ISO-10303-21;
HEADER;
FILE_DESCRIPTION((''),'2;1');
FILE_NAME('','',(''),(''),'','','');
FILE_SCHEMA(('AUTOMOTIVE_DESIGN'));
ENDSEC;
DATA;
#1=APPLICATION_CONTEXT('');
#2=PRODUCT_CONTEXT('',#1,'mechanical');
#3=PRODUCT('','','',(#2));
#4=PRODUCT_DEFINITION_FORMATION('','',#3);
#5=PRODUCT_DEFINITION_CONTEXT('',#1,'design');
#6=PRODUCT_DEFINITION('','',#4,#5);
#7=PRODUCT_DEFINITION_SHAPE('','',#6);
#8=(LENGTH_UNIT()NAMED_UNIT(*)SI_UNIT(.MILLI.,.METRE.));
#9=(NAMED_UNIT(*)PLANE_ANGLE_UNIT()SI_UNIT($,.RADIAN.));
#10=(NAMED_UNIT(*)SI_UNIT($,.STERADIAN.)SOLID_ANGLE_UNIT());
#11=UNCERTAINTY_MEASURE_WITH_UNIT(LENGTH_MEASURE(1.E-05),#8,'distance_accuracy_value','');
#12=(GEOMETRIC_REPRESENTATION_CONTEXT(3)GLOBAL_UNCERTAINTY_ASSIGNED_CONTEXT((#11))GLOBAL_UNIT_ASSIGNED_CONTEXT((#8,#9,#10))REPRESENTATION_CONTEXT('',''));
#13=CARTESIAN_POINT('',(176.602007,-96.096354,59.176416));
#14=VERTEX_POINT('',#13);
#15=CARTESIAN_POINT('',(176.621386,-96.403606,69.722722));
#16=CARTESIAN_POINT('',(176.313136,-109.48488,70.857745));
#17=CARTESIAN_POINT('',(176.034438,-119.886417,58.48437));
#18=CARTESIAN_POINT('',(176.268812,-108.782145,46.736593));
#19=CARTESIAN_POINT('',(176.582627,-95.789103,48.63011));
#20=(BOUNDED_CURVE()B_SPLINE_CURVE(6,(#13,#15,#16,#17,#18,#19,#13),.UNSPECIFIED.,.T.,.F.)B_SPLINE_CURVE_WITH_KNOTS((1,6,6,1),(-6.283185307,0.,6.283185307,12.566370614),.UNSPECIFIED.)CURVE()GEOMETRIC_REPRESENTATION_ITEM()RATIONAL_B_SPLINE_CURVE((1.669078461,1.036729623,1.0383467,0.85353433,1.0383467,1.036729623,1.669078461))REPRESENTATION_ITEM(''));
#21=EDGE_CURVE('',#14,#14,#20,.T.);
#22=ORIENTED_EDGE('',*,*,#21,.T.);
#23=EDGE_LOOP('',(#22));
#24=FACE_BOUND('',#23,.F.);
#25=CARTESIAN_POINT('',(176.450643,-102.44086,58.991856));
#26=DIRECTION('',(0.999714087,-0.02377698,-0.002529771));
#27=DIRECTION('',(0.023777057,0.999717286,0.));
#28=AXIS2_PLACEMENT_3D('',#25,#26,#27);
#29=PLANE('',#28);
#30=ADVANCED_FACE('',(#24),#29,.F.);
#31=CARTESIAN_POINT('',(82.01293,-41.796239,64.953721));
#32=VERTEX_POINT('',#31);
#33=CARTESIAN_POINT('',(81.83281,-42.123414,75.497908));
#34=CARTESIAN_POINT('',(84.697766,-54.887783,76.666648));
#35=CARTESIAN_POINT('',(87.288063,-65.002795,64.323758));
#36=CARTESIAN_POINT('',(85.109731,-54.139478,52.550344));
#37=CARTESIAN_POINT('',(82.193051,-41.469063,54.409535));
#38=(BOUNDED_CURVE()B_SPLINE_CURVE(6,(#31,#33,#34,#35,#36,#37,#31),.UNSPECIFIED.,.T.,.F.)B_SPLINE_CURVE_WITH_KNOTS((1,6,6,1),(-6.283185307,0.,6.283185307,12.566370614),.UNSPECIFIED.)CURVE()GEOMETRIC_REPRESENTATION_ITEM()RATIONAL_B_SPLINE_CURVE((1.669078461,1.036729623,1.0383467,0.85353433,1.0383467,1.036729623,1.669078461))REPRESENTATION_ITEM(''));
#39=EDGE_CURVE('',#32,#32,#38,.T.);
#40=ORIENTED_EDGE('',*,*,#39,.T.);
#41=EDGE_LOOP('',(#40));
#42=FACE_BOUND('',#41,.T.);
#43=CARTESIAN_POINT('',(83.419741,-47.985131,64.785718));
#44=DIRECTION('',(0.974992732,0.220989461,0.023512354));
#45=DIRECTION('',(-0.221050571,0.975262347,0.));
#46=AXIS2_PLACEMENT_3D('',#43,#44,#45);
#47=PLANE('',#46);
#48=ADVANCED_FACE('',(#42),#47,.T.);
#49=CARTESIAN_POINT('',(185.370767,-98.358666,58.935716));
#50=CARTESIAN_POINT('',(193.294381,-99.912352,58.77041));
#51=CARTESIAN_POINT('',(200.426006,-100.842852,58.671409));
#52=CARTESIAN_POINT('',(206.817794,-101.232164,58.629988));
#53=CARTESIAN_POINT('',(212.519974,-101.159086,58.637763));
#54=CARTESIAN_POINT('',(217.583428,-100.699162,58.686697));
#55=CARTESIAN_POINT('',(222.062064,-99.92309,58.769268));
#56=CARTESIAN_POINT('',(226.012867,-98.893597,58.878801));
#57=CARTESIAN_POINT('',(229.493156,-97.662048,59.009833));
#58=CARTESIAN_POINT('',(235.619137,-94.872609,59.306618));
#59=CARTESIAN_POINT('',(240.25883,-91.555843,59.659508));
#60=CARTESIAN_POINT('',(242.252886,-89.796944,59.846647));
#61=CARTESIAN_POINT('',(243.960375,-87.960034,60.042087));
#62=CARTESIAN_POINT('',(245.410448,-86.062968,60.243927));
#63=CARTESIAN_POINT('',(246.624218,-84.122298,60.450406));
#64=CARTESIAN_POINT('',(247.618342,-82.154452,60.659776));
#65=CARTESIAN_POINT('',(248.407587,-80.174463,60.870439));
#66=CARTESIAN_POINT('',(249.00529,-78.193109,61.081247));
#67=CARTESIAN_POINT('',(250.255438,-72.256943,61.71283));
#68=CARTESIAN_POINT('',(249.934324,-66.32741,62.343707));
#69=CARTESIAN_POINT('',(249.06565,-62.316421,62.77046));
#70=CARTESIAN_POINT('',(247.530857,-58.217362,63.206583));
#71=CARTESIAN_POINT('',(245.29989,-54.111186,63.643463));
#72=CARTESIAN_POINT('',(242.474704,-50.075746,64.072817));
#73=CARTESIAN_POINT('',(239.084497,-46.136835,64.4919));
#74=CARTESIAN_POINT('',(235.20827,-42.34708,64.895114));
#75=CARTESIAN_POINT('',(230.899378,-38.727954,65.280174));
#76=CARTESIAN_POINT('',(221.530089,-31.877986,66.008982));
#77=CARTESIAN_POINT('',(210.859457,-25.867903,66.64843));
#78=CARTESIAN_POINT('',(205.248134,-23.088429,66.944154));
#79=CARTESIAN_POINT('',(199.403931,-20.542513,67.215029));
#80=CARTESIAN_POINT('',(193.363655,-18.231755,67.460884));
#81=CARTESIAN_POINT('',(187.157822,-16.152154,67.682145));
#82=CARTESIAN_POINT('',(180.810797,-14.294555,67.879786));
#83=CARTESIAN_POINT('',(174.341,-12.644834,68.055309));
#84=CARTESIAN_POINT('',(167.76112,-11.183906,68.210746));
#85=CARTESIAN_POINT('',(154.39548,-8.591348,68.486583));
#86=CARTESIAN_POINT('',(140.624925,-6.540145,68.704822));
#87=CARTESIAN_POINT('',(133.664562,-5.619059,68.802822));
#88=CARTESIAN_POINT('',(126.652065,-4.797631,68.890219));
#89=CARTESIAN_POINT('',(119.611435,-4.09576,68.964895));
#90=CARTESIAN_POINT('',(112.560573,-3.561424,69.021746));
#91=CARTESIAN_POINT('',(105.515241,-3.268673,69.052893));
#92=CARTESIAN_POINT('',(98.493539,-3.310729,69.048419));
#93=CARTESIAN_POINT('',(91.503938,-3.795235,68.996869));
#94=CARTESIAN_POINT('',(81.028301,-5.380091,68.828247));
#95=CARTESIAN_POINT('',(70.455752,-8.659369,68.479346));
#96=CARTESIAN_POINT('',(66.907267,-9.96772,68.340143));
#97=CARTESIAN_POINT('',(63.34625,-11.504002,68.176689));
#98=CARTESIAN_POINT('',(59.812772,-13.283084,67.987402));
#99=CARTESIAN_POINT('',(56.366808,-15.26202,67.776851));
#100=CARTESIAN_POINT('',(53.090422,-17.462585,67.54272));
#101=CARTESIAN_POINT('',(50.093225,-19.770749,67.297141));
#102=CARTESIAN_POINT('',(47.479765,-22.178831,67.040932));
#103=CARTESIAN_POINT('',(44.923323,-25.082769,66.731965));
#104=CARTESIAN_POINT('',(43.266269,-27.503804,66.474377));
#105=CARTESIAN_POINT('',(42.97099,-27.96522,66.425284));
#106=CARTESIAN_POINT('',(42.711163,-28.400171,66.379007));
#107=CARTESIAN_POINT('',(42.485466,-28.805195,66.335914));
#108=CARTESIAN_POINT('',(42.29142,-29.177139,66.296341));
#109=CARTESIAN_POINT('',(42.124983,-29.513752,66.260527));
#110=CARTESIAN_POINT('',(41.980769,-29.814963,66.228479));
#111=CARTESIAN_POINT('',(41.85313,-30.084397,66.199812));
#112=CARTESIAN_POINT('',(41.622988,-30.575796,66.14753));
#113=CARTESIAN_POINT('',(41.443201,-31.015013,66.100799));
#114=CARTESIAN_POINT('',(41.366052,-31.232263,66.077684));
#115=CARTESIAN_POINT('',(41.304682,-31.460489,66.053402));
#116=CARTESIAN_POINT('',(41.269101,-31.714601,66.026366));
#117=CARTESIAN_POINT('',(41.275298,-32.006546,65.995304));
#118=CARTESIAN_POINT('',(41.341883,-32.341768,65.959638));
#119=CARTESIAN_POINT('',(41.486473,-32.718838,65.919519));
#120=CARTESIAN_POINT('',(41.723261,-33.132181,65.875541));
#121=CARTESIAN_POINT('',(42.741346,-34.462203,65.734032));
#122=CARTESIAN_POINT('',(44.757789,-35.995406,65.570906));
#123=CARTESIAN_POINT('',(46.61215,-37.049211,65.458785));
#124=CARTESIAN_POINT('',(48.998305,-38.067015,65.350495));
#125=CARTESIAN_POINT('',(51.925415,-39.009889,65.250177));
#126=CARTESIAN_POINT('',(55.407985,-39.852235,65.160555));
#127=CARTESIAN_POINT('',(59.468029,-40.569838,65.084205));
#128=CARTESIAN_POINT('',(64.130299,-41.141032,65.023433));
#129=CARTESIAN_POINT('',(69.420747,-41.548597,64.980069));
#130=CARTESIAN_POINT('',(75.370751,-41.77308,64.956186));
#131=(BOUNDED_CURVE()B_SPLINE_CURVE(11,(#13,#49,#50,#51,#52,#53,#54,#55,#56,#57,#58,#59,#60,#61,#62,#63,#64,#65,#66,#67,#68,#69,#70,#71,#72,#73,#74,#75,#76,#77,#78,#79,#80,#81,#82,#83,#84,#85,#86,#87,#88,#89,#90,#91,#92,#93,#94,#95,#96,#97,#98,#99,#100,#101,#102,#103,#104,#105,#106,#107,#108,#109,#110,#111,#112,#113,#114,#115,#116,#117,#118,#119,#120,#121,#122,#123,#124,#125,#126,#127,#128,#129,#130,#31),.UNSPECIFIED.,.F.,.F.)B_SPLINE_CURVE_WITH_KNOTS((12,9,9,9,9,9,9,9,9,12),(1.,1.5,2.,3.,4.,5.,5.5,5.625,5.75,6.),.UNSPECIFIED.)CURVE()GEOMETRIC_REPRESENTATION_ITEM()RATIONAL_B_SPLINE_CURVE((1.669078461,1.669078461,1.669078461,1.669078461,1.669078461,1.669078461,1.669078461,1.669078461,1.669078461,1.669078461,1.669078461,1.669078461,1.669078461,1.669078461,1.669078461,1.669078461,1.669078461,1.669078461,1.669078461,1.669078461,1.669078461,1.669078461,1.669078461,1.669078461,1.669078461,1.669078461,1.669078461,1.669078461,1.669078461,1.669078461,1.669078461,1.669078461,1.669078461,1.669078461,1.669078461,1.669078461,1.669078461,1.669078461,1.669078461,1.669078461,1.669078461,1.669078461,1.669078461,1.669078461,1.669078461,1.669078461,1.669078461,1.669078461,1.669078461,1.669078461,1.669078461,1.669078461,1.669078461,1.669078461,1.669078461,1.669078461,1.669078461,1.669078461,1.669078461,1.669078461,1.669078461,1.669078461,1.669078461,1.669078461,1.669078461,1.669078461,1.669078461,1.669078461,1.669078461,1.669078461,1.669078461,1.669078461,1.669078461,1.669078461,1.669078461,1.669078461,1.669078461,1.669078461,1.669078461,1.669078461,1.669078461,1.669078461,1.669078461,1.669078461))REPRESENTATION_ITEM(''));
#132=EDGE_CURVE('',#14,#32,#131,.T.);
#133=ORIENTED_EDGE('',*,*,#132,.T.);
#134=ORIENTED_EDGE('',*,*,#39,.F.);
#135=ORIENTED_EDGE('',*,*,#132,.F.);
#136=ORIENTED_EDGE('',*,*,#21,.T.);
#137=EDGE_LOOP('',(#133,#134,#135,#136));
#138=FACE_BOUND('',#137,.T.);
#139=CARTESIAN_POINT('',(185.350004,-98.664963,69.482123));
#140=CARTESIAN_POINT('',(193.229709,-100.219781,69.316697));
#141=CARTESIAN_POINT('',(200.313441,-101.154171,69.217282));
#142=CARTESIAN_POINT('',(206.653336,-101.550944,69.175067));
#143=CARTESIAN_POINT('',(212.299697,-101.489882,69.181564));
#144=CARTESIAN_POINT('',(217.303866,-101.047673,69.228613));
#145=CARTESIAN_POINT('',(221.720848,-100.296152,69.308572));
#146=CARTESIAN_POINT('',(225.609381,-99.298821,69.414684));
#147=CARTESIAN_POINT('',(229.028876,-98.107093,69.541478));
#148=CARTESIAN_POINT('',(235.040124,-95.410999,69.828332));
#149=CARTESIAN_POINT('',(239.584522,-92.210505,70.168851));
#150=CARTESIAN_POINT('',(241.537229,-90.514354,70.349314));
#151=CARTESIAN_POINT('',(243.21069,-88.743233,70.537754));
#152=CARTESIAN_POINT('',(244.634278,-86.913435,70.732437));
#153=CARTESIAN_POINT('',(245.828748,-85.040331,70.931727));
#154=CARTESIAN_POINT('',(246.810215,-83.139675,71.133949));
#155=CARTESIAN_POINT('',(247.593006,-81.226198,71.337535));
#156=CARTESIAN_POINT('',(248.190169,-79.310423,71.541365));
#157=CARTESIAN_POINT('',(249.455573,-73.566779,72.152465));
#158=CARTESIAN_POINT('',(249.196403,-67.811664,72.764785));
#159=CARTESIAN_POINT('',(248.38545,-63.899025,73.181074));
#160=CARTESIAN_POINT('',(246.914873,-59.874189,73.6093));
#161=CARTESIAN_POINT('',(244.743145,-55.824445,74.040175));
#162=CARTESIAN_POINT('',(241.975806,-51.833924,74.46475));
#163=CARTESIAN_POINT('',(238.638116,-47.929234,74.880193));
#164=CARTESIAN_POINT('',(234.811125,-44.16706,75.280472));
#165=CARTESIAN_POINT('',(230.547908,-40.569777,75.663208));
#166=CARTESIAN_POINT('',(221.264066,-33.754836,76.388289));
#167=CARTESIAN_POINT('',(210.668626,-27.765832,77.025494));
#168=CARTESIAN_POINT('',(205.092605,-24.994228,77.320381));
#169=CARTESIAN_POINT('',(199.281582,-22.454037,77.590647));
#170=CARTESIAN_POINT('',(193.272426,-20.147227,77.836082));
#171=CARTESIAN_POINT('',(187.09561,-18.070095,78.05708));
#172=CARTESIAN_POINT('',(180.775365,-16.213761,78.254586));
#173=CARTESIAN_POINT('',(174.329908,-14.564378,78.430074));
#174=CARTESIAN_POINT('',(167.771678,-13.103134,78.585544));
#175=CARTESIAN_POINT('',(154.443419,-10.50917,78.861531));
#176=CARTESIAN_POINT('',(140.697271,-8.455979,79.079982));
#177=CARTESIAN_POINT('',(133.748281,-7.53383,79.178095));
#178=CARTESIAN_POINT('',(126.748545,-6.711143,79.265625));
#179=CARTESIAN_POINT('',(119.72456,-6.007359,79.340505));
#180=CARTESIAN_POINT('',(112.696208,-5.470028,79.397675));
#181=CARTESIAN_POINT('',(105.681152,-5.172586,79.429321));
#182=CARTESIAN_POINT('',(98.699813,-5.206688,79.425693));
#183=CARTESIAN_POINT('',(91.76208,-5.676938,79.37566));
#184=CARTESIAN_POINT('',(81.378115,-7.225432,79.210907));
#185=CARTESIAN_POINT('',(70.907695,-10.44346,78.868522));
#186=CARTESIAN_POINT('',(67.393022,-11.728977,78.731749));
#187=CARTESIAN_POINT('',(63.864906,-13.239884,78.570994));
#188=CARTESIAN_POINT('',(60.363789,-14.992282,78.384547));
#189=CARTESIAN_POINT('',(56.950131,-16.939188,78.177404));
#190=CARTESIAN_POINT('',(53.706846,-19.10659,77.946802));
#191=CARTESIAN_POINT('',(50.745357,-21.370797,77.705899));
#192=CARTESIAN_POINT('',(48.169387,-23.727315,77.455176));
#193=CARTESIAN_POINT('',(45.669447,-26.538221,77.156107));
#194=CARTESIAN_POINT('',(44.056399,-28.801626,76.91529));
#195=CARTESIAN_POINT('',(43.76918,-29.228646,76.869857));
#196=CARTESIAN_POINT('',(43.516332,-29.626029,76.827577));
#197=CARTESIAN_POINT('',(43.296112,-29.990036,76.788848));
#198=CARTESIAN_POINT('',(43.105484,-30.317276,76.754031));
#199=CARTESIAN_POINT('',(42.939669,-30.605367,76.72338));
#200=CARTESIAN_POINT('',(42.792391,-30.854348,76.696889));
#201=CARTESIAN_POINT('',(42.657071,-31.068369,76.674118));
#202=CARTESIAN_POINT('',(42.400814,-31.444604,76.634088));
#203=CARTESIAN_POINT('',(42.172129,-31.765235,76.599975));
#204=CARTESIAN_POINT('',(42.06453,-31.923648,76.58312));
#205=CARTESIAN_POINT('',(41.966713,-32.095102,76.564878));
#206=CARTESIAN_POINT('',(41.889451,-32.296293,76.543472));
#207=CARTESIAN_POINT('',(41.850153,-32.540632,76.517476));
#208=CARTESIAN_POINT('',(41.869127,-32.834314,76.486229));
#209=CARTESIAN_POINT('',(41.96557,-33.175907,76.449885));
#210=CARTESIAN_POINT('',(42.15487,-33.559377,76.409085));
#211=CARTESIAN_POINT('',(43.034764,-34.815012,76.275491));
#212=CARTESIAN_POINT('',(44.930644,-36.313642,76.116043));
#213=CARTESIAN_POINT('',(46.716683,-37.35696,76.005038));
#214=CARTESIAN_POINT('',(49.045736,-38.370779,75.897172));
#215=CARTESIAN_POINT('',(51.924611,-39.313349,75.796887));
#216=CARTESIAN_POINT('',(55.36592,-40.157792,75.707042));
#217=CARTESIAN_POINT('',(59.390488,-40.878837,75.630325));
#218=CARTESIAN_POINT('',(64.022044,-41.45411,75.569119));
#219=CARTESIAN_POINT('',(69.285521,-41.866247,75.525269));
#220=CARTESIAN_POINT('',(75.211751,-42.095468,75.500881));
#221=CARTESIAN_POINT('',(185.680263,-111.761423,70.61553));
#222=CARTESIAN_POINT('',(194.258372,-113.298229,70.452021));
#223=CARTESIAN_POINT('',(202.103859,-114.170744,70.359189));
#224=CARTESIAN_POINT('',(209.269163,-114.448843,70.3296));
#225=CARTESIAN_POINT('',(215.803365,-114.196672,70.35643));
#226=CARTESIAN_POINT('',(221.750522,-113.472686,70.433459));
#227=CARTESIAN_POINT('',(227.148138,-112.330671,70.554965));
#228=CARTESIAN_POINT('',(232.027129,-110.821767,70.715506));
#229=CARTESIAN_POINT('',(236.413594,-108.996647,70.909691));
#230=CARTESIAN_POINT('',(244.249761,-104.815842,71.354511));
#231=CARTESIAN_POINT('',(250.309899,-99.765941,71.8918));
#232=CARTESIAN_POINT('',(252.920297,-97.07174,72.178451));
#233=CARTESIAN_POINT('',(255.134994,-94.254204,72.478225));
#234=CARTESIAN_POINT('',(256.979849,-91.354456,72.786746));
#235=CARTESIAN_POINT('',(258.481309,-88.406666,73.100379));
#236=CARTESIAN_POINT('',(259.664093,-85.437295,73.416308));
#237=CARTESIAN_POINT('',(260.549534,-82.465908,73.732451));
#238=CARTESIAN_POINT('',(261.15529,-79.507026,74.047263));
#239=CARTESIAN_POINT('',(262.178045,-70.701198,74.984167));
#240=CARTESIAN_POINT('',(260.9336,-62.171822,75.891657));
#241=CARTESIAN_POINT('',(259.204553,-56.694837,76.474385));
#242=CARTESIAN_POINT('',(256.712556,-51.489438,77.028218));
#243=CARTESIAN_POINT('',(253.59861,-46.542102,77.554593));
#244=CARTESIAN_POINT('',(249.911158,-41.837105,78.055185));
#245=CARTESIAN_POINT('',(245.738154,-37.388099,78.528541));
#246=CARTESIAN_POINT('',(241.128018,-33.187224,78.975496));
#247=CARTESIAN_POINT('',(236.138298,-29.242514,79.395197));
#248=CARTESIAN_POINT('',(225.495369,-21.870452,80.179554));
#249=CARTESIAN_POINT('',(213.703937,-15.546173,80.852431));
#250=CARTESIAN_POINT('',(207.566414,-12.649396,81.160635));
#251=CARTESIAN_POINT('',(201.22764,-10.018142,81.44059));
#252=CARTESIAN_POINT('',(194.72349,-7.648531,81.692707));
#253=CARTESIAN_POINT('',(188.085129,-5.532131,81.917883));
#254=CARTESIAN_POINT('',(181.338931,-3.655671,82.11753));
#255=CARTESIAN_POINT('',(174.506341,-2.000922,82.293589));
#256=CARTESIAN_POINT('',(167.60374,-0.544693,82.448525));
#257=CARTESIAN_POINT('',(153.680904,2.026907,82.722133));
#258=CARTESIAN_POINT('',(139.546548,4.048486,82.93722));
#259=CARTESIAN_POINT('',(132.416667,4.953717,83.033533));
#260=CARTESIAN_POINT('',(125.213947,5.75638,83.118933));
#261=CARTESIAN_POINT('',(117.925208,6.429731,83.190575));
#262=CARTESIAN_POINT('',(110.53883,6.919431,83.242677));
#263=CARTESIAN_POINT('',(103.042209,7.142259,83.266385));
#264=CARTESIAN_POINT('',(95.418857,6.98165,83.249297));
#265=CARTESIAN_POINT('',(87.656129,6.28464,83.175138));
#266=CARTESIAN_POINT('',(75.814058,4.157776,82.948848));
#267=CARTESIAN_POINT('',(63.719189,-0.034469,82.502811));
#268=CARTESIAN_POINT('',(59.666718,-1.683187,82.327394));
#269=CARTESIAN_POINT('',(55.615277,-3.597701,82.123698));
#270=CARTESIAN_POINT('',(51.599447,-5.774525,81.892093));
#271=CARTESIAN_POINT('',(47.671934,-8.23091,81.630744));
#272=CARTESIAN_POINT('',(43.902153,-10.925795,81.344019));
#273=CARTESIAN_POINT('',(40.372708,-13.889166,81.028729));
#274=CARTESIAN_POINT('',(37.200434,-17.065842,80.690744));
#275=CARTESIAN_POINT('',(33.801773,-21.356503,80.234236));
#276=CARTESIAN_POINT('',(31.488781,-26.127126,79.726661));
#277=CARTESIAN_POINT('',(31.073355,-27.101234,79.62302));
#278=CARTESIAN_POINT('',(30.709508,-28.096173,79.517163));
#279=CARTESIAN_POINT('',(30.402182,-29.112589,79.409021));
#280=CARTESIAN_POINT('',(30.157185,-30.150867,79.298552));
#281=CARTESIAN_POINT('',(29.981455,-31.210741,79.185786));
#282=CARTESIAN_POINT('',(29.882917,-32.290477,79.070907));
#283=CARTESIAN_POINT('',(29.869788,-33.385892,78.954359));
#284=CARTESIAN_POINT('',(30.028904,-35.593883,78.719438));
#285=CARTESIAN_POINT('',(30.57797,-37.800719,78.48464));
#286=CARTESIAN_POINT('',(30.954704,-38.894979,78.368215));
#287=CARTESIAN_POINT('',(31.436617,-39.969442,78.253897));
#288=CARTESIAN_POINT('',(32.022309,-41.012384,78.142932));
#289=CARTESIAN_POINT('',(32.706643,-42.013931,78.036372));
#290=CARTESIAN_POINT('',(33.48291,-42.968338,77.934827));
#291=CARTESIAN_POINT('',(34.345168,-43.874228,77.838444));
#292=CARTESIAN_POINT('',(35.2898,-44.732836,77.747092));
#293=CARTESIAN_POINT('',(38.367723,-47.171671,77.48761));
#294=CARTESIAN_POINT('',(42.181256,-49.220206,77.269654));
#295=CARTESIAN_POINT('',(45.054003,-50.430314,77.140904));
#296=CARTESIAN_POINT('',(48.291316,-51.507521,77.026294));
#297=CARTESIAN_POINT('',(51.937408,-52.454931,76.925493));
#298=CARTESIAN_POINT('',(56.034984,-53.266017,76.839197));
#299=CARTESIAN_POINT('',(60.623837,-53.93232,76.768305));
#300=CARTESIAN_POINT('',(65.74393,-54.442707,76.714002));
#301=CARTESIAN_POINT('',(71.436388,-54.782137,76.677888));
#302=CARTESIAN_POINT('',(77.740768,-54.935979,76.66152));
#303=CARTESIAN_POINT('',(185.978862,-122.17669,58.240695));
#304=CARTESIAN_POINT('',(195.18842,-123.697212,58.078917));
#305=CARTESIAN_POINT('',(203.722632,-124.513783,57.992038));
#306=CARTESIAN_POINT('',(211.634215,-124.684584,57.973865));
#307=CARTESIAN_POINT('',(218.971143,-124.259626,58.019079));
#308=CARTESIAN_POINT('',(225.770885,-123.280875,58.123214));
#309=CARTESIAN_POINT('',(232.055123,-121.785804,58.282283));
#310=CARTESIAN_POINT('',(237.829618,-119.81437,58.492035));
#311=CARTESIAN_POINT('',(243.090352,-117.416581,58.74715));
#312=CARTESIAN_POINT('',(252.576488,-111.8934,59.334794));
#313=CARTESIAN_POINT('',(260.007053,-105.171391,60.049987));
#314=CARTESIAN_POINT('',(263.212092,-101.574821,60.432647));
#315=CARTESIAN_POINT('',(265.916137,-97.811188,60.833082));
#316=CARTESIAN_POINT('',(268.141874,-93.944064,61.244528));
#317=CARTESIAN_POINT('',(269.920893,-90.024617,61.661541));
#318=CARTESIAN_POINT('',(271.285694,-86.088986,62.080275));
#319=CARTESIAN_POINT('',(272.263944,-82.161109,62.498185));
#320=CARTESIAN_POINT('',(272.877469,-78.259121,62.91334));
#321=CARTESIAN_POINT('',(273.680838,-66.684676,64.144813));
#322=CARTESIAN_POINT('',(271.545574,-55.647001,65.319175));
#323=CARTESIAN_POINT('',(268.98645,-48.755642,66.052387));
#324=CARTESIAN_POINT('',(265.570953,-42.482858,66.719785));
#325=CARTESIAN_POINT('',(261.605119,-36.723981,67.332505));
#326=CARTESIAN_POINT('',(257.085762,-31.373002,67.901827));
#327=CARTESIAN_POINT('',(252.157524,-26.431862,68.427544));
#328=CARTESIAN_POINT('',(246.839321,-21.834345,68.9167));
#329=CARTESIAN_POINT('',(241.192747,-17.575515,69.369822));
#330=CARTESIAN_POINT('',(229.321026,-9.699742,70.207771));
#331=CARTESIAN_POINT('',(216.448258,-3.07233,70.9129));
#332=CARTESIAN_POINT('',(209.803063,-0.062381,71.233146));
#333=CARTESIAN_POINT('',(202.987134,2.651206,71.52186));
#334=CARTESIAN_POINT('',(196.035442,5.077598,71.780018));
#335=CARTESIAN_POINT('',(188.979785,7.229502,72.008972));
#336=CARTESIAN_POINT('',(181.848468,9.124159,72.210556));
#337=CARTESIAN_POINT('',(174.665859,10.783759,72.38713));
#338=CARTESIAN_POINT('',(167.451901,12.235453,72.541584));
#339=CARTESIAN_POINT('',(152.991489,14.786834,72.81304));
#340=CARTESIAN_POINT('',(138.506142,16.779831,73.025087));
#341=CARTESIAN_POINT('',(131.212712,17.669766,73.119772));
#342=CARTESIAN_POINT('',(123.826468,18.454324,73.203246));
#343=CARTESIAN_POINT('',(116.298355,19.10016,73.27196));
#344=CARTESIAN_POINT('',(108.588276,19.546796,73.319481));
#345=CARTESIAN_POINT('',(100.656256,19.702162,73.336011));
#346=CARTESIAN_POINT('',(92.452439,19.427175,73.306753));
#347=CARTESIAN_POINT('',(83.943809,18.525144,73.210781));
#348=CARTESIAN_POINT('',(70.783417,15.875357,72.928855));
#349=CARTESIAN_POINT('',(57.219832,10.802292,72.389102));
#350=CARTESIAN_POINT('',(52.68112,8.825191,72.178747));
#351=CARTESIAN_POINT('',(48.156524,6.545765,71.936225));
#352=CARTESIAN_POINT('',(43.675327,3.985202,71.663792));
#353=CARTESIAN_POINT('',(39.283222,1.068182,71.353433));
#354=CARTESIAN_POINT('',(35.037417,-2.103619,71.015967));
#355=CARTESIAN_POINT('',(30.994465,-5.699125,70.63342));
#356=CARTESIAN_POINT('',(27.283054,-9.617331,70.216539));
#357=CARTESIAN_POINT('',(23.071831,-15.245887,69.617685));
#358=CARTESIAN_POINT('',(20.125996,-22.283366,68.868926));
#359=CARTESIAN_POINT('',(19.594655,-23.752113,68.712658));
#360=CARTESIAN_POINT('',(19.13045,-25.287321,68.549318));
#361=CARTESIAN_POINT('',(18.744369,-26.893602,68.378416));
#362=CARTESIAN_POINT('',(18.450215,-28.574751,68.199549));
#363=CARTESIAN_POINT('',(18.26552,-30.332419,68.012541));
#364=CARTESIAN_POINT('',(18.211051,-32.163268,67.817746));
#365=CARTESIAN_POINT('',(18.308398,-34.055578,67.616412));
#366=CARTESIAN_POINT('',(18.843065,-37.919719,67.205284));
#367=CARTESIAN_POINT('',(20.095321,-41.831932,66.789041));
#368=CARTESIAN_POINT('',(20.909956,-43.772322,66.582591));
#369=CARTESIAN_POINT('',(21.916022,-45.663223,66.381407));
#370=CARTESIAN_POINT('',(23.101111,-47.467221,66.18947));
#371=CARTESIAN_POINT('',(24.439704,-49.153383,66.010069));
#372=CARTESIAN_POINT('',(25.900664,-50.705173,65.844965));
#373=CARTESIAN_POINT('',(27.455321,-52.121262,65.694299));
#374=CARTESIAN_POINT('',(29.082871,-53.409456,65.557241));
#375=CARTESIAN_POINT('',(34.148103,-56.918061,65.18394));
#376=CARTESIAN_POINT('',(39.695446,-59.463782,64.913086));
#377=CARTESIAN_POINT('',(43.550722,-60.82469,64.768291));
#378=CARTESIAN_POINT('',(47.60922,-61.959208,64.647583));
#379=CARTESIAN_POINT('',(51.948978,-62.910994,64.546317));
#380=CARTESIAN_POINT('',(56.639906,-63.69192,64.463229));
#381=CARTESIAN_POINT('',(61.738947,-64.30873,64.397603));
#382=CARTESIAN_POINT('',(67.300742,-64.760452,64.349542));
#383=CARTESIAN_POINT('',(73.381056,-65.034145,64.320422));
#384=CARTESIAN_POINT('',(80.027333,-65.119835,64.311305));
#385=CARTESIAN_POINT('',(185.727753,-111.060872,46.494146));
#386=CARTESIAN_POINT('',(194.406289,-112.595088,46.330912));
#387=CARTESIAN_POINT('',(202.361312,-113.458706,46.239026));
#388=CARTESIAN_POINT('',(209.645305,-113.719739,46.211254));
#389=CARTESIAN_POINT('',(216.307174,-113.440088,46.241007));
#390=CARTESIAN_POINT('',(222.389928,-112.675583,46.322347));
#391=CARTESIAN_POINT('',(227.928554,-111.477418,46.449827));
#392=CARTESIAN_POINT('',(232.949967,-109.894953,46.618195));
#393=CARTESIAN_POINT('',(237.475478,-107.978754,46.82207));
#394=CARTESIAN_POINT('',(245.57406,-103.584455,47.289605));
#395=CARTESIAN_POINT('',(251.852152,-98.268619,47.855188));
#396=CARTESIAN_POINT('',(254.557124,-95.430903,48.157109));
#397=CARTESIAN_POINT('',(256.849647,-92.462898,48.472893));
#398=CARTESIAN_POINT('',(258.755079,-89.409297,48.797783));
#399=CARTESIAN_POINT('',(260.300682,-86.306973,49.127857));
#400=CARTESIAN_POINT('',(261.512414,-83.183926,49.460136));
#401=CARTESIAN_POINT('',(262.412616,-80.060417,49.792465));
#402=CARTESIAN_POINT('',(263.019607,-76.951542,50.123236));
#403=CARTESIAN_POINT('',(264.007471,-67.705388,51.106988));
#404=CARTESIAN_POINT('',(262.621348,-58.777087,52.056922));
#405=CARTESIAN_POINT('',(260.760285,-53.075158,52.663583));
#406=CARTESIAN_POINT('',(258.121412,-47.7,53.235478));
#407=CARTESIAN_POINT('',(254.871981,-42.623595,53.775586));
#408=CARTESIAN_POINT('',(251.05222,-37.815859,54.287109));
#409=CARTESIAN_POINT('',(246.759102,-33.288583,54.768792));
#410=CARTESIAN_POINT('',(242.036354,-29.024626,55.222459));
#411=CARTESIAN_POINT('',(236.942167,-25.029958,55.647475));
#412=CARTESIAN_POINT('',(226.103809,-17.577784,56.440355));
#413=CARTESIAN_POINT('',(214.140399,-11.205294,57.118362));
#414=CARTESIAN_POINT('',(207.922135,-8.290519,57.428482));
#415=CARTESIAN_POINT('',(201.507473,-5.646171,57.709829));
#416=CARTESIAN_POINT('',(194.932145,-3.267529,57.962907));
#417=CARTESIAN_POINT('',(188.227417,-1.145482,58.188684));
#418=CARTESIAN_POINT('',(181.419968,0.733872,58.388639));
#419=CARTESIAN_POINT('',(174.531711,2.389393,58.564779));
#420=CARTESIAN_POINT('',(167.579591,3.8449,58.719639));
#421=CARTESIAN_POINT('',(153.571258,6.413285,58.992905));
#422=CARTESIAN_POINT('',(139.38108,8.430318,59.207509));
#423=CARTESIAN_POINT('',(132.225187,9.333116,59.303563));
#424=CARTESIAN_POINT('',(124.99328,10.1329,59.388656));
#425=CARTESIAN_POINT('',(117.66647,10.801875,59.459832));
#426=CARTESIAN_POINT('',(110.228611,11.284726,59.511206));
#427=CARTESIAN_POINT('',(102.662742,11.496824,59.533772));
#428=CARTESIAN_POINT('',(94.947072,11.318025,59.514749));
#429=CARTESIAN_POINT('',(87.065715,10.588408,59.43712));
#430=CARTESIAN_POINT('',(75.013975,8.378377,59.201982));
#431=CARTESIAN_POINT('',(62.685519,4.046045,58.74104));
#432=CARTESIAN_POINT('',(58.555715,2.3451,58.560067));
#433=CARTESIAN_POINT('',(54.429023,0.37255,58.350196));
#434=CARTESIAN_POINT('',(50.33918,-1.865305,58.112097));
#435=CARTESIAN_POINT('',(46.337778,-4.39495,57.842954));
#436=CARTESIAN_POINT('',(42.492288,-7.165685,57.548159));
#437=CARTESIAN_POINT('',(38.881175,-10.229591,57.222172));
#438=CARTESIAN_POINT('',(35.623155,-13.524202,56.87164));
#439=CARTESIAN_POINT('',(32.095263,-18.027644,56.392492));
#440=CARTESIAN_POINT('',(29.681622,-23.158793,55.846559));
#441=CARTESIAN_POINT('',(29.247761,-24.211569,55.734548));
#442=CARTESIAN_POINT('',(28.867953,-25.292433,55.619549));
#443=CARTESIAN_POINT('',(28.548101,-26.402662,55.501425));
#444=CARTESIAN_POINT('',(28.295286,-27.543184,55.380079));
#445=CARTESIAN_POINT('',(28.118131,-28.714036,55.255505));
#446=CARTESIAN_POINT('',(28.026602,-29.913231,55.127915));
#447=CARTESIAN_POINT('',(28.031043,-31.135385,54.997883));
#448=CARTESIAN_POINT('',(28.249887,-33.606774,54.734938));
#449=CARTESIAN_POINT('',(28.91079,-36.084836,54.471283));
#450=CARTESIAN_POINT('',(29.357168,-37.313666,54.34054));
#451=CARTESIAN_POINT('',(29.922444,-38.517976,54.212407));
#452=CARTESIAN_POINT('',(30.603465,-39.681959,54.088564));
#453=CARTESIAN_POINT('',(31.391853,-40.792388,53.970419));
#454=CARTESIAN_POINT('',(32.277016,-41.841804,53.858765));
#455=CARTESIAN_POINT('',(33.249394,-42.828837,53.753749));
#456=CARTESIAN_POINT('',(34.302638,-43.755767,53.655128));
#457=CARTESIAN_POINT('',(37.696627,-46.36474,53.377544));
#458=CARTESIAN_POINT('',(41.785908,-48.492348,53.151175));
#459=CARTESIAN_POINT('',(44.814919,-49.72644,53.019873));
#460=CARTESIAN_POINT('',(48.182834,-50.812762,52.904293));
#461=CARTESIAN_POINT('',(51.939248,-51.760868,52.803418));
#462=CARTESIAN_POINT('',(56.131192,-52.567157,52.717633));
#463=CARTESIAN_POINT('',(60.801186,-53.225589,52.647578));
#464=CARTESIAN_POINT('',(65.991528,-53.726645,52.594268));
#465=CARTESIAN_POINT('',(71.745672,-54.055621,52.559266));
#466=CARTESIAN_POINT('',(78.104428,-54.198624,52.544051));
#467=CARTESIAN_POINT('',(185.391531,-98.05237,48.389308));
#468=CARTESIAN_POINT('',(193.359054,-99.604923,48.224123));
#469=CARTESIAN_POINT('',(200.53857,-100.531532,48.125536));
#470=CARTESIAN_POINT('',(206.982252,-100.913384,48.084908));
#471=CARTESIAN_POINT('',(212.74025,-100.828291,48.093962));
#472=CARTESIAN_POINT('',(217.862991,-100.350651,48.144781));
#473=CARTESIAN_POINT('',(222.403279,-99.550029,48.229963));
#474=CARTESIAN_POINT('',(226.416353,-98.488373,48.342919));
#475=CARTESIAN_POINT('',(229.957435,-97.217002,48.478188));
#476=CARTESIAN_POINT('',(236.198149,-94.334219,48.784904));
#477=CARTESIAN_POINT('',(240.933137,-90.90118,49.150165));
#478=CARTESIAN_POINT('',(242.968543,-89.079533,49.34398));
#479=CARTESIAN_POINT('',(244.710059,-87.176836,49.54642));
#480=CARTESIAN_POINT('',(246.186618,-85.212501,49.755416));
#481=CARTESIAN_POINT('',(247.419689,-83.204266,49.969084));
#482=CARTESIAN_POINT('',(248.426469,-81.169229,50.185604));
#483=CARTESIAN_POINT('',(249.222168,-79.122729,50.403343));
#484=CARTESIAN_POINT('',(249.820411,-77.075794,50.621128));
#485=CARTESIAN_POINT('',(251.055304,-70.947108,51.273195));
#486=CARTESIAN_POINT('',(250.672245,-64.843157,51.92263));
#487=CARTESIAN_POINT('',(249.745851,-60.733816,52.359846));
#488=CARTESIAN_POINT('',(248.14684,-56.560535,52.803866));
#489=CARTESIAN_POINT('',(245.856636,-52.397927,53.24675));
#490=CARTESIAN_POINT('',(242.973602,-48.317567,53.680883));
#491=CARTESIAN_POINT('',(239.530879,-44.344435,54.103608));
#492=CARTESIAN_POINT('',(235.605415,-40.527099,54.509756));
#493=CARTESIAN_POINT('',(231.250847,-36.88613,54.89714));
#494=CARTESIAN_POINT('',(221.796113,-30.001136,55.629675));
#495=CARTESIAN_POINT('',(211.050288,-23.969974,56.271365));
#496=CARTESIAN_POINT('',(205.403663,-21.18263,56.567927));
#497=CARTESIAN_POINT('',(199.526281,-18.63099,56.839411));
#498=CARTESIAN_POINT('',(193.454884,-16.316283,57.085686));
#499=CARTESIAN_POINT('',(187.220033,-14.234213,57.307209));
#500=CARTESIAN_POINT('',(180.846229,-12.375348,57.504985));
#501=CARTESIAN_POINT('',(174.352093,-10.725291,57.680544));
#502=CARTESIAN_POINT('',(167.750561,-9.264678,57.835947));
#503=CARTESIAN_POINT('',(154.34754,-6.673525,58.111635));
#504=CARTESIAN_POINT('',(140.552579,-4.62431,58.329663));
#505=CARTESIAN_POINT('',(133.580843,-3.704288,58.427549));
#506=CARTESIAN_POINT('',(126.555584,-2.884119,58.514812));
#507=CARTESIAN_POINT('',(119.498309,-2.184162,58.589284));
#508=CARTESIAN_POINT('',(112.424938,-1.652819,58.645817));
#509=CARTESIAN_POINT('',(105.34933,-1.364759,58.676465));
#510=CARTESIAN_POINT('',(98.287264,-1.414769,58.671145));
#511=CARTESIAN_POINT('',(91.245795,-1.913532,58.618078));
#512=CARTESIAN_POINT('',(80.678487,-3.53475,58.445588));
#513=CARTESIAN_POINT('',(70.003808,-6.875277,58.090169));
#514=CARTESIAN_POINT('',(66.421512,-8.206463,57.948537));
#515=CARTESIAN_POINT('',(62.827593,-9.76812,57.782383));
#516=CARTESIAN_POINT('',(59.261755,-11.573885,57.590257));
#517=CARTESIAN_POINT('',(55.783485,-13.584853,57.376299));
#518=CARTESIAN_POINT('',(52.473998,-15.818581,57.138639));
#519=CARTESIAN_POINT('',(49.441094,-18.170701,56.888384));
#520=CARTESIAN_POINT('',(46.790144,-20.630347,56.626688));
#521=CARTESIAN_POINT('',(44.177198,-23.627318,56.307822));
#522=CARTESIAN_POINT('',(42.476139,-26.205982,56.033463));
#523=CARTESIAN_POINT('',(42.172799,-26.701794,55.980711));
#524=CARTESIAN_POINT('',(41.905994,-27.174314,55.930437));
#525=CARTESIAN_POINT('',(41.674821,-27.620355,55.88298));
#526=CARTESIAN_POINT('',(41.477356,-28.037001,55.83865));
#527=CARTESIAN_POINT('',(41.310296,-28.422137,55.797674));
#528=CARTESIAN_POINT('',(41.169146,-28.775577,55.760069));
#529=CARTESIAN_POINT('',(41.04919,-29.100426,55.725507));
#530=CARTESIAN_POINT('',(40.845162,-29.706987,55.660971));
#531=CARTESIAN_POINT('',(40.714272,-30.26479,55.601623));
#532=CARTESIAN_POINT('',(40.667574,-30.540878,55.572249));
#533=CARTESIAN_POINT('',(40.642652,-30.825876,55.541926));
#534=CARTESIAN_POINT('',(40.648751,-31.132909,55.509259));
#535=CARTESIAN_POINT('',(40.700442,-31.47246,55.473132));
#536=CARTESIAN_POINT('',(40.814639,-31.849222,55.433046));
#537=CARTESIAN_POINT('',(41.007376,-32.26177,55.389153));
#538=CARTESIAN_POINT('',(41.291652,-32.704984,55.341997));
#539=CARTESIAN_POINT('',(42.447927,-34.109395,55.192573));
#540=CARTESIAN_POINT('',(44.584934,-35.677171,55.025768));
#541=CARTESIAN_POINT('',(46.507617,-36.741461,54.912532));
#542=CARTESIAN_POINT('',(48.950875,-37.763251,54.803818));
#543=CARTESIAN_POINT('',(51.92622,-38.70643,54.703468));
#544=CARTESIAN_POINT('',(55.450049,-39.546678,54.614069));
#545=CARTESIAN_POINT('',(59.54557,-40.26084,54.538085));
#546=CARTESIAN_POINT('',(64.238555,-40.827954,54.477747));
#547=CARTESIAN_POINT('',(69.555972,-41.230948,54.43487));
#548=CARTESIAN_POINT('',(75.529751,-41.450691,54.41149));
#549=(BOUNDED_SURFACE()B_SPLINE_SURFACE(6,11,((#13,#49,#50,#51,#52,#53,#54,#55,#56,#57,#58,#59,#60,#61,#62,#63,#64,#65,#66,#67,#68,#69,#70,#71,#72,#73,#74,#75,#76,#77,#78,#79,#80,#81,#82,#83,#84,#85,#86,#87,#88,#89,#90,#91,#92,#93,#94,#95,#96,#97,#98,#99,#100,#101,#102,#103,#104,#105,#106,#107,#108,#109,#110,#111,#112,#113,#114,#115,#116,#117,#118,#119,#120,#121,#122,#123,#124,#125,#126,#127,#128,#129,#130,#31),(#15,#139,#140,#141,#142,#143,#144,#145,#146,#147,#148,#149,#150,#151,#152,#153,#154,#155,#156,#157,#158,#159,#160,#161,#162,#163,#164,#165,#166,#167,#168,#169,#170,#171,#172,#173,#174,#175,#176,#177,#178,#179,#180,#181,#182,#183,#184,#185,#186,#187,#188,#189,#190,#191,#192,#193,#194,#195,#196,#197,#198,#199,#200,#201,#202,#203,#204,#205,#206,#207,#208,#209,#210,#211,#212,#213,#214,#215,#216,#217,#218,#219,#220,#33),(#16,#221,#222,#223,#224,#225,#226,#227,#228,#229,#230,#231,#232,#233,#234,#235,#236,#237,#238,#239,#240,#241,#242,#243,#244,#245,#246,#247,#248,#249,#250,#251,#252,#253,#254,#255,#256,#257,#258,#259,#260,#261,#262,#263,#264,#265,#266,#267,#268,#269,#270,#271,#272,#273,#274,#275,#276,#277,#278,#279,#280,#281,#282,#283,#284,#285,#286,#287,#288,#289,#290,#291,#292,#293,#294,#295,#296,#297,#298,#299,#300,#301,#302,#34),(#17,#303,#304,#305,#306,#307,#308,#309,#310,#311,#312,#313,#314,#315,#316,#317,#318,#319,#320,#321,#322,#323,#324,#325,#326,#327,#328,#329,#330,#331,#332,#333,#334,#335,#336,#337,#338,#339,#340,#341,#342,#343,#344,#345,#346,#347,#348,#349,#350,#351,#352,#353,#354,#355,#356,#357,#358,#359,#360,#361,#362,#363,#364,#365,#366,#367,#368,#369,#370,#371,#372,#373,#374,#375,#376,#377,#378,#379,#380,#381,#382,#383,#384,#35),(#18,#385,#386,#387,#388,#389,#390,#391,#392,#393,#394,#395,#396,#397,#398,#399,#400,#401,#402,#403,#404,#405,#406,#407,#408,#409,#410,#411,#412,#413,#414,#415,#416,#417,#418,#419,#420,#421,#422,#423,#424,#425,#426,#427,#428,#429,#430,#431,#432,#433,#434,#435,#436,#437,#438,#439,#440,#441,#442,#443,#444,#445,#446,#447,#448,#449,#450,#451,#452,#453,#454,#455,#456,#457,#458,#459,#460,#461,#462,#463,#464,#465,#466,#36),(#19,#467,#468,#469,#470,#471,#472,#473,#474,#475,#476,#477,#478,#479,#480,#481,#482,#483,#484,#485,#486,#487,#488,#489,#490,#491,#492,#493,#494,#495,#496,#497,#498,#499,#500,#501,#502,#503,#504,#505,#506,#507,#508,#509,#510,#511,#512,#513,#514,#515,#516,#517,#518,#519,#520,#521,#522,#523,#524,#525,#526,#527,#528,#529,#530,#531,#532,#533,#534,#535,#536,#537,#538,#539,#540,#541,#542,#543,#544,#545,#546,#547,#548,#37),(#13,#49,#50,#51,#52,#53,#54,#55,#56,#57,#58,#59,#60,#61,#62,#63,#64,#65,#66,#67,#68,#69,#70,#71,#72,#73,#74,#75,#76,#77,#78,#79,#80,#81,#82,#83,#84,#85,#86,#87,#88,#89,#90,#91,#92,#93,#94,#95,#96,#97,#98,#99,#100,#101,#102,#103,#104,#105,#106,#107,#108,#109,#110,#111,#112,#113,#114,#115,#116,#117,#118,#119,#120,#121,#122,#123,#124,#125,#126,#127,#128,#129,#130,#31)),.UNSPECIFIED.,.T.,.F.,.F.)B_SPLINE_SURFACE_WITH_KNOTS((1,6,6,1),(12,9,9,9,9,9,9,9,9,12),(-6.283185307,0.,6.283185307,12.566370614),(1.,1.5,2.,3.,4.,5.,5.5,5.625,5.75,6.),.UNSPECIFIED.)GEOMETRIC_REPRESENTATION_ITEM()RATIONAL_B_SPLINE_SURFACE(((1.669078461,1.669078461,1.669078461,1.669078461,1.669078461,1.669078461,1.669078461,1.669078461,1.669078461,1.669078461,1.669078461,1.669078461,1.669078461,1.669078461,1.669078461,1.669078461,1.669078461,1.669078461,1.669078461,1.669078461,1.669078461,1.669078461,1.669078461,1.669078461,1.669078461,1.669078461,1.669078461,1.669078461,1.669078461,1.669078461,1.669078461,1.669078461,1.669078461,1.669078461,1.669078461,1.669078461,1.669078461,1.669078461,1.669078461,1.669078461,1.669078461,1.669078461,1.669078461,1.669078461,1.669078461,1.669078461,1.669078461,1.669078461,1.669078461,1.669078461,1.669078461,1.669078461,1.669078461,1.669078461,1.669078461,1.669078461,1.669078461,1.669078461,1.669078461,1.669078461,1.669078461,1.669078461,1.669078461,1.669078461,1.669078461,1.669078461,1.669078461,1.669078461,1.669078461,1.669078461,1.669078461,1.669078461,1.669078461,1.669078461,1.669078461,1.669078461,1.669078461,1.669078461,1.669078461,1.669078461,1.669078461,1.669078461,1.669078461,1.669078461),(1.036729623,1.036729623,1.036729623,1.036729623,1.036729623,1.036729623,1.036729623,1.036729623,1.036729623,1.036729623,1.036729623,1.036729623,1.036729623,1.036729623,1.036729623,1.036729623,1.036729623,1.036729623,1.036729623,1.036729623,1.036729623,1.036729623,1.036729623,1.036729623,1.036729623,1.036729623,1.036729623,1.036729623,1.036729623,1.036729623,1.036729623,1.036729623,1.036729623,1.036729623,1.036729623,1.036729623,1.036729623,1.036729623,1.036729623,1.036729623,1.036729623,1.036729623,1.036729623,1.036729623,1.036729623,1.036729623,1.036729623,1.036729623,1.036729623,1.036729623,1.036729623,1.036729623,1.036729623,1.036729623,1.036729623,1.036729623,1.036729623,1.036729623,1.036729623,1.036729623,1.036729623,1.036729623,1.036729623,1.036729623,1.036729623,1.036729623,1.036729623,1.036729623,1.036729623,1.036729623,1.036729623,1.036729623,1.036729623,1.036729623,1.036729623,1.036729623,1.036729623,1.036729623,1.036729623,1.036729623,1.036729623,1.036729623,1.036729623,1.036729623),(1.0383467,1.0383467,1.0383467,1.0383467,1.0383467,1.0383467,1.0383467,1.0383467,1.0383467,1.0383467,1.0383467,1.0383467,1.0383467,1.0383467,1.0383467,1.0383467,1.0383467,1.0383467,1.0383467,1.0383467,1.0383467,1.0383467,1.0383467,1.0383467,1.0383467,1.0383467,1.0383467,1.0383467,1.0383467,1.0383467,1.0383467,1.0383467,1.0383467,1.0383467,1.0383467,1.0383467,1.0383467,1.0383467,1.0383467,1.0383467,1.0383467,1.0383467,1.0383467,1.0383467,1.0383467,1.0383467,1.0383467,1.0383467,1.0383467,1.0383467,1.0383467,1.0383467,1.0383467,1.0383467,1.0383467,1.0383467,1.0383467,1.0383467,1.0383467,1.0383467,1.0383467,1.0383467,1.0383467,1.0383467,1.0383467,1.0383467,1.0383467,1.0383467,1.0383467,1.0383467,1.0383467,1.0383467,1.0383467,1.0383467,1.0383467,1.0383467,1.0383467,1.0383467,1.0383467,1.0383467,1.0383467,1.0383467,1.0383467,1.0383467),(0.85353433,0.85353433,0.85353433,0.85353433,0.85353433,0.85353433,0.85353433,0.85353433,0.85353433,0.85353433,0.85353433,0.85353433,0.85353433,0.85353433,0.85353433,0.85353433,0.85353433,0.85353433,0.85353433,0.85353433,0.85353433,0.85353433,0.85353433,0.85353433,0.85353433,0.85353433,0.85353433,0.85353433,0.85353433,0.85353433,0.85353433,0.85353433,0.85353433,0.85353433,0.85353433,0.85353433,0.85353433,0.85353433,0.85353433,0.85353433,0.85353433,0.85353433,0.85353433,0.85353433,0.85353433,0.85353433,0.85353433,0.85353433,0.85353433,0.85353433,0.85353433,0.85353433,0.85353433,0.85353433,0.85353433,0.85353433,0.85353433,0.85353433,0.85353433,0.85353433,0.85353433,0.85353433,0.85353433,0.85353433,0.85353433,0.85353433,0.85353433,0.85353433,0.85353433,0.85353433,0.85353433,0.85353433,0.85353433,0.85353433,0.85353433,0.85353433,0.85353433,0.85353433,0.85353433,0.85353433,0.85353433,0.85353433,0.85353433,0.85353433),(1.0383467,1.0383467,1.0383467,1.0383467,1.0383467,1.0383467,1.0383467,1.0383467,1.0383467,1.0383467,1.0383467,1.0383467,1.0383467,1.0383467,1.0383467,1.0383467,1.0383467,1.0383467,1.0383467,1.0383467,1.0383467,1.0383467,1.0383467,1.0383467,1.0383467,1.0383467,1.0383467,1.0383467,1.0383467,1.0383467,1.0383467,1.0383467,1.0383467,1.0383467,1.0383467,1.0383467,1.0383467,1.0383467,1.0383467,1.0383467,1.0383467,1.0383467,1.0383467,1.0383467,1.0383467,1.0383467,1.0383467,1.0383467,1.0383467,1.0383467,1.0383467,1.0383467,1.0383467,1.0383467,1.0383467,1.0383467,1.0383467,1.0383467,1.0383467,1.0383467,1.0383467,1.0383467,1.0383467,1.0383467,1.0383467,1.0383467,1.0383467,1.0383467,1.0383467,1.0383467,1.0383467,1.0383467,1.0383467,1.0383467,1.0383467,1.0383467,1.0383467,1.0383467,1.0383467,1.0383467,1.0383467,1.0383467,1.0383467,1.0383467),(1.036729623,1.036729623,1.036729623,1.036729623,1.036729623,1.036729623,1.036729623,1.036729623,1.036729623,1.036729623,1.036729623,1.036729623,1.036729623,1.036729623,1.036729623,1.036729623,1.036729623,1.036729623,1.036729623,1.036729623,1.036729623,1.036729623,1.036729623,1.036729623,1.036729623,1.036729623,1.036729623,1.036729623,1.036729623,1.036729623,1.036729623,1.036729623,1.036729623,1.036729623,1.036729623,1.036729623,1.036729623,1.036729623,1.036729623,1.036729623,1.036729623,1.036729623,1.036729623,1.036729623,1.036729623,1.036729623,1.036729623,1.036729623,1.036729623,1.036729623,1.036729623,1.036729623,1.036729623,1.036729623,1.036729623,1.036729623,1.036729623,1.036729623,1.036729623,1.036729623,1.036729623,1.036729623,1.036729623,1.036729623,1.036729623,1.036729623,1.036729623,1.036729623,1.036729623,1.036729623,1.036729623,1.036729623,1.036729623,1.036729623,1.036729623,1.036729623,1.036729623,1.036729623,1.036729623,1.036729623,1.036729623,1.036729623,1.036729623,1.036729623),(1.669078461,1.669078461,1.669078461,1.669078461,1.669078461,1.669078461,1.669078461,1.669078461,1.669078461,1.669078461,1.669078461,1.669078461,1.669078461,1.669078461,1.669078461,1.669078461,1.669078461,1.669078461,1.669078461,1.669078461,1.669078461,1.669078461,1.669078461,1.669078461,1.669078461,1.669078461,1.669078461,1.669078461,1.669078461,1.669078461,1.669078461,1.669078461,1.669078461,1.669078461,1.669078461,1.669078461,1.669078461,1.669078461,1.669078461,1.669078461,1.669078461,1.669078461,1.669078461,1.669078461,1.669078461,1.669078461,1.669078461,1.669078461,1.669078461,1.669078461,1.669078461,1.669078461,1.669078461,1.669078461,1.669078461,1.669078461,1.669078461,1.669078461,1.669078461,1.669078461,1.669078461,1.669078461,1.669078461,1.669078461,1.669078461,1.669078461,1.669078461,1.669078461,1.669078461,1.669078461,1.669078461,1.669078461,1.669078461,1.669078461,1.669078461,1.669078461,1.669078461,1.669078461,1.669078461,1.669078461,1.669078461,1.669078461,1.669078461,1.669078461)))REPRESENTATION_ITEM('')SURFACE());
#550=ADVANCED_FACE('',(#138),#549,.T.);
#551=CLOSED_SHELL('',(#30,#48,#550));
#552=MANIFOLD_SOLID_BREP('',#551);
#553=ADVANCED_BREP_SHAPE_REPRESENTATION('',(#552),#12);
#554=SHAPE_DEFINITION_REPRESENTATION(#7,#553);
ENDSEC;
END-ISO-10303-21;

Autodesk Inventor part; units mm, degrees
ref_plane "YZ Plane" through (0, 0, 0) normal (1, 0, 0) x (0, 1, 0)
ref_plane "XZ Plane" through (0, 0, 0) normal (0, 1, 0) x (-1, 0, 0)
ref_plane "XY Plane" through (0, 0, 0) normal (0, 0, 1) x (1, 0, 0)
ref_plane "Work Plane1" through (180.6657, -103.4431, 58.8853) normal (0, -0.1058, 0.9944) x (0.4079, 0.9079, 0.0966)
sketch "Sketch1" plane through (180.6657, -103.4431, 58.8853) normal (0, -0.1058, 0.9944) x (0.4079, 0.9079, 0.0966)
  line L0 (-1.7341, 3.8684) -> (7.2859, -47.1153) construction
  line L1 (7.2859, -47.1153) -> (50.0533, -72.8947) construction
  line L2 (50.0533, -72.8947) -> (88.6228, -47.1153) construction
  line L3 (88.6228, -47.1153) -> (96.3512, 29.555) construction
  line L4 (96.3512, 29.555) -> (71.8704, 102.8109) construction
  line L5 (71.8704, 102.8109) -> (52.1284, 161.8867) construction
  line L6 (52.1284, 161.8867) -> (-20.4224, 179.4685) construction
  line L7 (-20.4224, 179.4685) -> (10.4433, 110.9284) construction
  spline S0 degree 4 poles (-1.7341, 3.8684) (7.2859, -47.1153) (50.0533, -72.8947) (88.6228, -47.1153) (96.3512, 29.555) (71.8704, 102.8109) (52.1284, 161.8867) (-20.4224, 179.4685) (10.4433, 110.9284) knots 1 1 1 1 1 2 3 4 5 6 6 6 6 6
  point P0 (14.5265, 204.3684)
ref_plane "Work Plane2" through (180.6657, -103.4431, 58.8853) normal (1, 0, 0) x (0, 0.9996, 0.0291)
sketch "Sketch2" plane through (180.6657, -103.4431, 58.8853) normal (1, 0, 0) x (0, 0.9996, 0.0291)
  circle A0 centre (0, 0) radius 6.35
  point P0 (101.6845, -61.8726)
  dimension "d0" = 12.7
sweep "Sweep1" add profiles "Sketch2" path "Sketch1"
properties part number "Wire to Spark Gap 2"
